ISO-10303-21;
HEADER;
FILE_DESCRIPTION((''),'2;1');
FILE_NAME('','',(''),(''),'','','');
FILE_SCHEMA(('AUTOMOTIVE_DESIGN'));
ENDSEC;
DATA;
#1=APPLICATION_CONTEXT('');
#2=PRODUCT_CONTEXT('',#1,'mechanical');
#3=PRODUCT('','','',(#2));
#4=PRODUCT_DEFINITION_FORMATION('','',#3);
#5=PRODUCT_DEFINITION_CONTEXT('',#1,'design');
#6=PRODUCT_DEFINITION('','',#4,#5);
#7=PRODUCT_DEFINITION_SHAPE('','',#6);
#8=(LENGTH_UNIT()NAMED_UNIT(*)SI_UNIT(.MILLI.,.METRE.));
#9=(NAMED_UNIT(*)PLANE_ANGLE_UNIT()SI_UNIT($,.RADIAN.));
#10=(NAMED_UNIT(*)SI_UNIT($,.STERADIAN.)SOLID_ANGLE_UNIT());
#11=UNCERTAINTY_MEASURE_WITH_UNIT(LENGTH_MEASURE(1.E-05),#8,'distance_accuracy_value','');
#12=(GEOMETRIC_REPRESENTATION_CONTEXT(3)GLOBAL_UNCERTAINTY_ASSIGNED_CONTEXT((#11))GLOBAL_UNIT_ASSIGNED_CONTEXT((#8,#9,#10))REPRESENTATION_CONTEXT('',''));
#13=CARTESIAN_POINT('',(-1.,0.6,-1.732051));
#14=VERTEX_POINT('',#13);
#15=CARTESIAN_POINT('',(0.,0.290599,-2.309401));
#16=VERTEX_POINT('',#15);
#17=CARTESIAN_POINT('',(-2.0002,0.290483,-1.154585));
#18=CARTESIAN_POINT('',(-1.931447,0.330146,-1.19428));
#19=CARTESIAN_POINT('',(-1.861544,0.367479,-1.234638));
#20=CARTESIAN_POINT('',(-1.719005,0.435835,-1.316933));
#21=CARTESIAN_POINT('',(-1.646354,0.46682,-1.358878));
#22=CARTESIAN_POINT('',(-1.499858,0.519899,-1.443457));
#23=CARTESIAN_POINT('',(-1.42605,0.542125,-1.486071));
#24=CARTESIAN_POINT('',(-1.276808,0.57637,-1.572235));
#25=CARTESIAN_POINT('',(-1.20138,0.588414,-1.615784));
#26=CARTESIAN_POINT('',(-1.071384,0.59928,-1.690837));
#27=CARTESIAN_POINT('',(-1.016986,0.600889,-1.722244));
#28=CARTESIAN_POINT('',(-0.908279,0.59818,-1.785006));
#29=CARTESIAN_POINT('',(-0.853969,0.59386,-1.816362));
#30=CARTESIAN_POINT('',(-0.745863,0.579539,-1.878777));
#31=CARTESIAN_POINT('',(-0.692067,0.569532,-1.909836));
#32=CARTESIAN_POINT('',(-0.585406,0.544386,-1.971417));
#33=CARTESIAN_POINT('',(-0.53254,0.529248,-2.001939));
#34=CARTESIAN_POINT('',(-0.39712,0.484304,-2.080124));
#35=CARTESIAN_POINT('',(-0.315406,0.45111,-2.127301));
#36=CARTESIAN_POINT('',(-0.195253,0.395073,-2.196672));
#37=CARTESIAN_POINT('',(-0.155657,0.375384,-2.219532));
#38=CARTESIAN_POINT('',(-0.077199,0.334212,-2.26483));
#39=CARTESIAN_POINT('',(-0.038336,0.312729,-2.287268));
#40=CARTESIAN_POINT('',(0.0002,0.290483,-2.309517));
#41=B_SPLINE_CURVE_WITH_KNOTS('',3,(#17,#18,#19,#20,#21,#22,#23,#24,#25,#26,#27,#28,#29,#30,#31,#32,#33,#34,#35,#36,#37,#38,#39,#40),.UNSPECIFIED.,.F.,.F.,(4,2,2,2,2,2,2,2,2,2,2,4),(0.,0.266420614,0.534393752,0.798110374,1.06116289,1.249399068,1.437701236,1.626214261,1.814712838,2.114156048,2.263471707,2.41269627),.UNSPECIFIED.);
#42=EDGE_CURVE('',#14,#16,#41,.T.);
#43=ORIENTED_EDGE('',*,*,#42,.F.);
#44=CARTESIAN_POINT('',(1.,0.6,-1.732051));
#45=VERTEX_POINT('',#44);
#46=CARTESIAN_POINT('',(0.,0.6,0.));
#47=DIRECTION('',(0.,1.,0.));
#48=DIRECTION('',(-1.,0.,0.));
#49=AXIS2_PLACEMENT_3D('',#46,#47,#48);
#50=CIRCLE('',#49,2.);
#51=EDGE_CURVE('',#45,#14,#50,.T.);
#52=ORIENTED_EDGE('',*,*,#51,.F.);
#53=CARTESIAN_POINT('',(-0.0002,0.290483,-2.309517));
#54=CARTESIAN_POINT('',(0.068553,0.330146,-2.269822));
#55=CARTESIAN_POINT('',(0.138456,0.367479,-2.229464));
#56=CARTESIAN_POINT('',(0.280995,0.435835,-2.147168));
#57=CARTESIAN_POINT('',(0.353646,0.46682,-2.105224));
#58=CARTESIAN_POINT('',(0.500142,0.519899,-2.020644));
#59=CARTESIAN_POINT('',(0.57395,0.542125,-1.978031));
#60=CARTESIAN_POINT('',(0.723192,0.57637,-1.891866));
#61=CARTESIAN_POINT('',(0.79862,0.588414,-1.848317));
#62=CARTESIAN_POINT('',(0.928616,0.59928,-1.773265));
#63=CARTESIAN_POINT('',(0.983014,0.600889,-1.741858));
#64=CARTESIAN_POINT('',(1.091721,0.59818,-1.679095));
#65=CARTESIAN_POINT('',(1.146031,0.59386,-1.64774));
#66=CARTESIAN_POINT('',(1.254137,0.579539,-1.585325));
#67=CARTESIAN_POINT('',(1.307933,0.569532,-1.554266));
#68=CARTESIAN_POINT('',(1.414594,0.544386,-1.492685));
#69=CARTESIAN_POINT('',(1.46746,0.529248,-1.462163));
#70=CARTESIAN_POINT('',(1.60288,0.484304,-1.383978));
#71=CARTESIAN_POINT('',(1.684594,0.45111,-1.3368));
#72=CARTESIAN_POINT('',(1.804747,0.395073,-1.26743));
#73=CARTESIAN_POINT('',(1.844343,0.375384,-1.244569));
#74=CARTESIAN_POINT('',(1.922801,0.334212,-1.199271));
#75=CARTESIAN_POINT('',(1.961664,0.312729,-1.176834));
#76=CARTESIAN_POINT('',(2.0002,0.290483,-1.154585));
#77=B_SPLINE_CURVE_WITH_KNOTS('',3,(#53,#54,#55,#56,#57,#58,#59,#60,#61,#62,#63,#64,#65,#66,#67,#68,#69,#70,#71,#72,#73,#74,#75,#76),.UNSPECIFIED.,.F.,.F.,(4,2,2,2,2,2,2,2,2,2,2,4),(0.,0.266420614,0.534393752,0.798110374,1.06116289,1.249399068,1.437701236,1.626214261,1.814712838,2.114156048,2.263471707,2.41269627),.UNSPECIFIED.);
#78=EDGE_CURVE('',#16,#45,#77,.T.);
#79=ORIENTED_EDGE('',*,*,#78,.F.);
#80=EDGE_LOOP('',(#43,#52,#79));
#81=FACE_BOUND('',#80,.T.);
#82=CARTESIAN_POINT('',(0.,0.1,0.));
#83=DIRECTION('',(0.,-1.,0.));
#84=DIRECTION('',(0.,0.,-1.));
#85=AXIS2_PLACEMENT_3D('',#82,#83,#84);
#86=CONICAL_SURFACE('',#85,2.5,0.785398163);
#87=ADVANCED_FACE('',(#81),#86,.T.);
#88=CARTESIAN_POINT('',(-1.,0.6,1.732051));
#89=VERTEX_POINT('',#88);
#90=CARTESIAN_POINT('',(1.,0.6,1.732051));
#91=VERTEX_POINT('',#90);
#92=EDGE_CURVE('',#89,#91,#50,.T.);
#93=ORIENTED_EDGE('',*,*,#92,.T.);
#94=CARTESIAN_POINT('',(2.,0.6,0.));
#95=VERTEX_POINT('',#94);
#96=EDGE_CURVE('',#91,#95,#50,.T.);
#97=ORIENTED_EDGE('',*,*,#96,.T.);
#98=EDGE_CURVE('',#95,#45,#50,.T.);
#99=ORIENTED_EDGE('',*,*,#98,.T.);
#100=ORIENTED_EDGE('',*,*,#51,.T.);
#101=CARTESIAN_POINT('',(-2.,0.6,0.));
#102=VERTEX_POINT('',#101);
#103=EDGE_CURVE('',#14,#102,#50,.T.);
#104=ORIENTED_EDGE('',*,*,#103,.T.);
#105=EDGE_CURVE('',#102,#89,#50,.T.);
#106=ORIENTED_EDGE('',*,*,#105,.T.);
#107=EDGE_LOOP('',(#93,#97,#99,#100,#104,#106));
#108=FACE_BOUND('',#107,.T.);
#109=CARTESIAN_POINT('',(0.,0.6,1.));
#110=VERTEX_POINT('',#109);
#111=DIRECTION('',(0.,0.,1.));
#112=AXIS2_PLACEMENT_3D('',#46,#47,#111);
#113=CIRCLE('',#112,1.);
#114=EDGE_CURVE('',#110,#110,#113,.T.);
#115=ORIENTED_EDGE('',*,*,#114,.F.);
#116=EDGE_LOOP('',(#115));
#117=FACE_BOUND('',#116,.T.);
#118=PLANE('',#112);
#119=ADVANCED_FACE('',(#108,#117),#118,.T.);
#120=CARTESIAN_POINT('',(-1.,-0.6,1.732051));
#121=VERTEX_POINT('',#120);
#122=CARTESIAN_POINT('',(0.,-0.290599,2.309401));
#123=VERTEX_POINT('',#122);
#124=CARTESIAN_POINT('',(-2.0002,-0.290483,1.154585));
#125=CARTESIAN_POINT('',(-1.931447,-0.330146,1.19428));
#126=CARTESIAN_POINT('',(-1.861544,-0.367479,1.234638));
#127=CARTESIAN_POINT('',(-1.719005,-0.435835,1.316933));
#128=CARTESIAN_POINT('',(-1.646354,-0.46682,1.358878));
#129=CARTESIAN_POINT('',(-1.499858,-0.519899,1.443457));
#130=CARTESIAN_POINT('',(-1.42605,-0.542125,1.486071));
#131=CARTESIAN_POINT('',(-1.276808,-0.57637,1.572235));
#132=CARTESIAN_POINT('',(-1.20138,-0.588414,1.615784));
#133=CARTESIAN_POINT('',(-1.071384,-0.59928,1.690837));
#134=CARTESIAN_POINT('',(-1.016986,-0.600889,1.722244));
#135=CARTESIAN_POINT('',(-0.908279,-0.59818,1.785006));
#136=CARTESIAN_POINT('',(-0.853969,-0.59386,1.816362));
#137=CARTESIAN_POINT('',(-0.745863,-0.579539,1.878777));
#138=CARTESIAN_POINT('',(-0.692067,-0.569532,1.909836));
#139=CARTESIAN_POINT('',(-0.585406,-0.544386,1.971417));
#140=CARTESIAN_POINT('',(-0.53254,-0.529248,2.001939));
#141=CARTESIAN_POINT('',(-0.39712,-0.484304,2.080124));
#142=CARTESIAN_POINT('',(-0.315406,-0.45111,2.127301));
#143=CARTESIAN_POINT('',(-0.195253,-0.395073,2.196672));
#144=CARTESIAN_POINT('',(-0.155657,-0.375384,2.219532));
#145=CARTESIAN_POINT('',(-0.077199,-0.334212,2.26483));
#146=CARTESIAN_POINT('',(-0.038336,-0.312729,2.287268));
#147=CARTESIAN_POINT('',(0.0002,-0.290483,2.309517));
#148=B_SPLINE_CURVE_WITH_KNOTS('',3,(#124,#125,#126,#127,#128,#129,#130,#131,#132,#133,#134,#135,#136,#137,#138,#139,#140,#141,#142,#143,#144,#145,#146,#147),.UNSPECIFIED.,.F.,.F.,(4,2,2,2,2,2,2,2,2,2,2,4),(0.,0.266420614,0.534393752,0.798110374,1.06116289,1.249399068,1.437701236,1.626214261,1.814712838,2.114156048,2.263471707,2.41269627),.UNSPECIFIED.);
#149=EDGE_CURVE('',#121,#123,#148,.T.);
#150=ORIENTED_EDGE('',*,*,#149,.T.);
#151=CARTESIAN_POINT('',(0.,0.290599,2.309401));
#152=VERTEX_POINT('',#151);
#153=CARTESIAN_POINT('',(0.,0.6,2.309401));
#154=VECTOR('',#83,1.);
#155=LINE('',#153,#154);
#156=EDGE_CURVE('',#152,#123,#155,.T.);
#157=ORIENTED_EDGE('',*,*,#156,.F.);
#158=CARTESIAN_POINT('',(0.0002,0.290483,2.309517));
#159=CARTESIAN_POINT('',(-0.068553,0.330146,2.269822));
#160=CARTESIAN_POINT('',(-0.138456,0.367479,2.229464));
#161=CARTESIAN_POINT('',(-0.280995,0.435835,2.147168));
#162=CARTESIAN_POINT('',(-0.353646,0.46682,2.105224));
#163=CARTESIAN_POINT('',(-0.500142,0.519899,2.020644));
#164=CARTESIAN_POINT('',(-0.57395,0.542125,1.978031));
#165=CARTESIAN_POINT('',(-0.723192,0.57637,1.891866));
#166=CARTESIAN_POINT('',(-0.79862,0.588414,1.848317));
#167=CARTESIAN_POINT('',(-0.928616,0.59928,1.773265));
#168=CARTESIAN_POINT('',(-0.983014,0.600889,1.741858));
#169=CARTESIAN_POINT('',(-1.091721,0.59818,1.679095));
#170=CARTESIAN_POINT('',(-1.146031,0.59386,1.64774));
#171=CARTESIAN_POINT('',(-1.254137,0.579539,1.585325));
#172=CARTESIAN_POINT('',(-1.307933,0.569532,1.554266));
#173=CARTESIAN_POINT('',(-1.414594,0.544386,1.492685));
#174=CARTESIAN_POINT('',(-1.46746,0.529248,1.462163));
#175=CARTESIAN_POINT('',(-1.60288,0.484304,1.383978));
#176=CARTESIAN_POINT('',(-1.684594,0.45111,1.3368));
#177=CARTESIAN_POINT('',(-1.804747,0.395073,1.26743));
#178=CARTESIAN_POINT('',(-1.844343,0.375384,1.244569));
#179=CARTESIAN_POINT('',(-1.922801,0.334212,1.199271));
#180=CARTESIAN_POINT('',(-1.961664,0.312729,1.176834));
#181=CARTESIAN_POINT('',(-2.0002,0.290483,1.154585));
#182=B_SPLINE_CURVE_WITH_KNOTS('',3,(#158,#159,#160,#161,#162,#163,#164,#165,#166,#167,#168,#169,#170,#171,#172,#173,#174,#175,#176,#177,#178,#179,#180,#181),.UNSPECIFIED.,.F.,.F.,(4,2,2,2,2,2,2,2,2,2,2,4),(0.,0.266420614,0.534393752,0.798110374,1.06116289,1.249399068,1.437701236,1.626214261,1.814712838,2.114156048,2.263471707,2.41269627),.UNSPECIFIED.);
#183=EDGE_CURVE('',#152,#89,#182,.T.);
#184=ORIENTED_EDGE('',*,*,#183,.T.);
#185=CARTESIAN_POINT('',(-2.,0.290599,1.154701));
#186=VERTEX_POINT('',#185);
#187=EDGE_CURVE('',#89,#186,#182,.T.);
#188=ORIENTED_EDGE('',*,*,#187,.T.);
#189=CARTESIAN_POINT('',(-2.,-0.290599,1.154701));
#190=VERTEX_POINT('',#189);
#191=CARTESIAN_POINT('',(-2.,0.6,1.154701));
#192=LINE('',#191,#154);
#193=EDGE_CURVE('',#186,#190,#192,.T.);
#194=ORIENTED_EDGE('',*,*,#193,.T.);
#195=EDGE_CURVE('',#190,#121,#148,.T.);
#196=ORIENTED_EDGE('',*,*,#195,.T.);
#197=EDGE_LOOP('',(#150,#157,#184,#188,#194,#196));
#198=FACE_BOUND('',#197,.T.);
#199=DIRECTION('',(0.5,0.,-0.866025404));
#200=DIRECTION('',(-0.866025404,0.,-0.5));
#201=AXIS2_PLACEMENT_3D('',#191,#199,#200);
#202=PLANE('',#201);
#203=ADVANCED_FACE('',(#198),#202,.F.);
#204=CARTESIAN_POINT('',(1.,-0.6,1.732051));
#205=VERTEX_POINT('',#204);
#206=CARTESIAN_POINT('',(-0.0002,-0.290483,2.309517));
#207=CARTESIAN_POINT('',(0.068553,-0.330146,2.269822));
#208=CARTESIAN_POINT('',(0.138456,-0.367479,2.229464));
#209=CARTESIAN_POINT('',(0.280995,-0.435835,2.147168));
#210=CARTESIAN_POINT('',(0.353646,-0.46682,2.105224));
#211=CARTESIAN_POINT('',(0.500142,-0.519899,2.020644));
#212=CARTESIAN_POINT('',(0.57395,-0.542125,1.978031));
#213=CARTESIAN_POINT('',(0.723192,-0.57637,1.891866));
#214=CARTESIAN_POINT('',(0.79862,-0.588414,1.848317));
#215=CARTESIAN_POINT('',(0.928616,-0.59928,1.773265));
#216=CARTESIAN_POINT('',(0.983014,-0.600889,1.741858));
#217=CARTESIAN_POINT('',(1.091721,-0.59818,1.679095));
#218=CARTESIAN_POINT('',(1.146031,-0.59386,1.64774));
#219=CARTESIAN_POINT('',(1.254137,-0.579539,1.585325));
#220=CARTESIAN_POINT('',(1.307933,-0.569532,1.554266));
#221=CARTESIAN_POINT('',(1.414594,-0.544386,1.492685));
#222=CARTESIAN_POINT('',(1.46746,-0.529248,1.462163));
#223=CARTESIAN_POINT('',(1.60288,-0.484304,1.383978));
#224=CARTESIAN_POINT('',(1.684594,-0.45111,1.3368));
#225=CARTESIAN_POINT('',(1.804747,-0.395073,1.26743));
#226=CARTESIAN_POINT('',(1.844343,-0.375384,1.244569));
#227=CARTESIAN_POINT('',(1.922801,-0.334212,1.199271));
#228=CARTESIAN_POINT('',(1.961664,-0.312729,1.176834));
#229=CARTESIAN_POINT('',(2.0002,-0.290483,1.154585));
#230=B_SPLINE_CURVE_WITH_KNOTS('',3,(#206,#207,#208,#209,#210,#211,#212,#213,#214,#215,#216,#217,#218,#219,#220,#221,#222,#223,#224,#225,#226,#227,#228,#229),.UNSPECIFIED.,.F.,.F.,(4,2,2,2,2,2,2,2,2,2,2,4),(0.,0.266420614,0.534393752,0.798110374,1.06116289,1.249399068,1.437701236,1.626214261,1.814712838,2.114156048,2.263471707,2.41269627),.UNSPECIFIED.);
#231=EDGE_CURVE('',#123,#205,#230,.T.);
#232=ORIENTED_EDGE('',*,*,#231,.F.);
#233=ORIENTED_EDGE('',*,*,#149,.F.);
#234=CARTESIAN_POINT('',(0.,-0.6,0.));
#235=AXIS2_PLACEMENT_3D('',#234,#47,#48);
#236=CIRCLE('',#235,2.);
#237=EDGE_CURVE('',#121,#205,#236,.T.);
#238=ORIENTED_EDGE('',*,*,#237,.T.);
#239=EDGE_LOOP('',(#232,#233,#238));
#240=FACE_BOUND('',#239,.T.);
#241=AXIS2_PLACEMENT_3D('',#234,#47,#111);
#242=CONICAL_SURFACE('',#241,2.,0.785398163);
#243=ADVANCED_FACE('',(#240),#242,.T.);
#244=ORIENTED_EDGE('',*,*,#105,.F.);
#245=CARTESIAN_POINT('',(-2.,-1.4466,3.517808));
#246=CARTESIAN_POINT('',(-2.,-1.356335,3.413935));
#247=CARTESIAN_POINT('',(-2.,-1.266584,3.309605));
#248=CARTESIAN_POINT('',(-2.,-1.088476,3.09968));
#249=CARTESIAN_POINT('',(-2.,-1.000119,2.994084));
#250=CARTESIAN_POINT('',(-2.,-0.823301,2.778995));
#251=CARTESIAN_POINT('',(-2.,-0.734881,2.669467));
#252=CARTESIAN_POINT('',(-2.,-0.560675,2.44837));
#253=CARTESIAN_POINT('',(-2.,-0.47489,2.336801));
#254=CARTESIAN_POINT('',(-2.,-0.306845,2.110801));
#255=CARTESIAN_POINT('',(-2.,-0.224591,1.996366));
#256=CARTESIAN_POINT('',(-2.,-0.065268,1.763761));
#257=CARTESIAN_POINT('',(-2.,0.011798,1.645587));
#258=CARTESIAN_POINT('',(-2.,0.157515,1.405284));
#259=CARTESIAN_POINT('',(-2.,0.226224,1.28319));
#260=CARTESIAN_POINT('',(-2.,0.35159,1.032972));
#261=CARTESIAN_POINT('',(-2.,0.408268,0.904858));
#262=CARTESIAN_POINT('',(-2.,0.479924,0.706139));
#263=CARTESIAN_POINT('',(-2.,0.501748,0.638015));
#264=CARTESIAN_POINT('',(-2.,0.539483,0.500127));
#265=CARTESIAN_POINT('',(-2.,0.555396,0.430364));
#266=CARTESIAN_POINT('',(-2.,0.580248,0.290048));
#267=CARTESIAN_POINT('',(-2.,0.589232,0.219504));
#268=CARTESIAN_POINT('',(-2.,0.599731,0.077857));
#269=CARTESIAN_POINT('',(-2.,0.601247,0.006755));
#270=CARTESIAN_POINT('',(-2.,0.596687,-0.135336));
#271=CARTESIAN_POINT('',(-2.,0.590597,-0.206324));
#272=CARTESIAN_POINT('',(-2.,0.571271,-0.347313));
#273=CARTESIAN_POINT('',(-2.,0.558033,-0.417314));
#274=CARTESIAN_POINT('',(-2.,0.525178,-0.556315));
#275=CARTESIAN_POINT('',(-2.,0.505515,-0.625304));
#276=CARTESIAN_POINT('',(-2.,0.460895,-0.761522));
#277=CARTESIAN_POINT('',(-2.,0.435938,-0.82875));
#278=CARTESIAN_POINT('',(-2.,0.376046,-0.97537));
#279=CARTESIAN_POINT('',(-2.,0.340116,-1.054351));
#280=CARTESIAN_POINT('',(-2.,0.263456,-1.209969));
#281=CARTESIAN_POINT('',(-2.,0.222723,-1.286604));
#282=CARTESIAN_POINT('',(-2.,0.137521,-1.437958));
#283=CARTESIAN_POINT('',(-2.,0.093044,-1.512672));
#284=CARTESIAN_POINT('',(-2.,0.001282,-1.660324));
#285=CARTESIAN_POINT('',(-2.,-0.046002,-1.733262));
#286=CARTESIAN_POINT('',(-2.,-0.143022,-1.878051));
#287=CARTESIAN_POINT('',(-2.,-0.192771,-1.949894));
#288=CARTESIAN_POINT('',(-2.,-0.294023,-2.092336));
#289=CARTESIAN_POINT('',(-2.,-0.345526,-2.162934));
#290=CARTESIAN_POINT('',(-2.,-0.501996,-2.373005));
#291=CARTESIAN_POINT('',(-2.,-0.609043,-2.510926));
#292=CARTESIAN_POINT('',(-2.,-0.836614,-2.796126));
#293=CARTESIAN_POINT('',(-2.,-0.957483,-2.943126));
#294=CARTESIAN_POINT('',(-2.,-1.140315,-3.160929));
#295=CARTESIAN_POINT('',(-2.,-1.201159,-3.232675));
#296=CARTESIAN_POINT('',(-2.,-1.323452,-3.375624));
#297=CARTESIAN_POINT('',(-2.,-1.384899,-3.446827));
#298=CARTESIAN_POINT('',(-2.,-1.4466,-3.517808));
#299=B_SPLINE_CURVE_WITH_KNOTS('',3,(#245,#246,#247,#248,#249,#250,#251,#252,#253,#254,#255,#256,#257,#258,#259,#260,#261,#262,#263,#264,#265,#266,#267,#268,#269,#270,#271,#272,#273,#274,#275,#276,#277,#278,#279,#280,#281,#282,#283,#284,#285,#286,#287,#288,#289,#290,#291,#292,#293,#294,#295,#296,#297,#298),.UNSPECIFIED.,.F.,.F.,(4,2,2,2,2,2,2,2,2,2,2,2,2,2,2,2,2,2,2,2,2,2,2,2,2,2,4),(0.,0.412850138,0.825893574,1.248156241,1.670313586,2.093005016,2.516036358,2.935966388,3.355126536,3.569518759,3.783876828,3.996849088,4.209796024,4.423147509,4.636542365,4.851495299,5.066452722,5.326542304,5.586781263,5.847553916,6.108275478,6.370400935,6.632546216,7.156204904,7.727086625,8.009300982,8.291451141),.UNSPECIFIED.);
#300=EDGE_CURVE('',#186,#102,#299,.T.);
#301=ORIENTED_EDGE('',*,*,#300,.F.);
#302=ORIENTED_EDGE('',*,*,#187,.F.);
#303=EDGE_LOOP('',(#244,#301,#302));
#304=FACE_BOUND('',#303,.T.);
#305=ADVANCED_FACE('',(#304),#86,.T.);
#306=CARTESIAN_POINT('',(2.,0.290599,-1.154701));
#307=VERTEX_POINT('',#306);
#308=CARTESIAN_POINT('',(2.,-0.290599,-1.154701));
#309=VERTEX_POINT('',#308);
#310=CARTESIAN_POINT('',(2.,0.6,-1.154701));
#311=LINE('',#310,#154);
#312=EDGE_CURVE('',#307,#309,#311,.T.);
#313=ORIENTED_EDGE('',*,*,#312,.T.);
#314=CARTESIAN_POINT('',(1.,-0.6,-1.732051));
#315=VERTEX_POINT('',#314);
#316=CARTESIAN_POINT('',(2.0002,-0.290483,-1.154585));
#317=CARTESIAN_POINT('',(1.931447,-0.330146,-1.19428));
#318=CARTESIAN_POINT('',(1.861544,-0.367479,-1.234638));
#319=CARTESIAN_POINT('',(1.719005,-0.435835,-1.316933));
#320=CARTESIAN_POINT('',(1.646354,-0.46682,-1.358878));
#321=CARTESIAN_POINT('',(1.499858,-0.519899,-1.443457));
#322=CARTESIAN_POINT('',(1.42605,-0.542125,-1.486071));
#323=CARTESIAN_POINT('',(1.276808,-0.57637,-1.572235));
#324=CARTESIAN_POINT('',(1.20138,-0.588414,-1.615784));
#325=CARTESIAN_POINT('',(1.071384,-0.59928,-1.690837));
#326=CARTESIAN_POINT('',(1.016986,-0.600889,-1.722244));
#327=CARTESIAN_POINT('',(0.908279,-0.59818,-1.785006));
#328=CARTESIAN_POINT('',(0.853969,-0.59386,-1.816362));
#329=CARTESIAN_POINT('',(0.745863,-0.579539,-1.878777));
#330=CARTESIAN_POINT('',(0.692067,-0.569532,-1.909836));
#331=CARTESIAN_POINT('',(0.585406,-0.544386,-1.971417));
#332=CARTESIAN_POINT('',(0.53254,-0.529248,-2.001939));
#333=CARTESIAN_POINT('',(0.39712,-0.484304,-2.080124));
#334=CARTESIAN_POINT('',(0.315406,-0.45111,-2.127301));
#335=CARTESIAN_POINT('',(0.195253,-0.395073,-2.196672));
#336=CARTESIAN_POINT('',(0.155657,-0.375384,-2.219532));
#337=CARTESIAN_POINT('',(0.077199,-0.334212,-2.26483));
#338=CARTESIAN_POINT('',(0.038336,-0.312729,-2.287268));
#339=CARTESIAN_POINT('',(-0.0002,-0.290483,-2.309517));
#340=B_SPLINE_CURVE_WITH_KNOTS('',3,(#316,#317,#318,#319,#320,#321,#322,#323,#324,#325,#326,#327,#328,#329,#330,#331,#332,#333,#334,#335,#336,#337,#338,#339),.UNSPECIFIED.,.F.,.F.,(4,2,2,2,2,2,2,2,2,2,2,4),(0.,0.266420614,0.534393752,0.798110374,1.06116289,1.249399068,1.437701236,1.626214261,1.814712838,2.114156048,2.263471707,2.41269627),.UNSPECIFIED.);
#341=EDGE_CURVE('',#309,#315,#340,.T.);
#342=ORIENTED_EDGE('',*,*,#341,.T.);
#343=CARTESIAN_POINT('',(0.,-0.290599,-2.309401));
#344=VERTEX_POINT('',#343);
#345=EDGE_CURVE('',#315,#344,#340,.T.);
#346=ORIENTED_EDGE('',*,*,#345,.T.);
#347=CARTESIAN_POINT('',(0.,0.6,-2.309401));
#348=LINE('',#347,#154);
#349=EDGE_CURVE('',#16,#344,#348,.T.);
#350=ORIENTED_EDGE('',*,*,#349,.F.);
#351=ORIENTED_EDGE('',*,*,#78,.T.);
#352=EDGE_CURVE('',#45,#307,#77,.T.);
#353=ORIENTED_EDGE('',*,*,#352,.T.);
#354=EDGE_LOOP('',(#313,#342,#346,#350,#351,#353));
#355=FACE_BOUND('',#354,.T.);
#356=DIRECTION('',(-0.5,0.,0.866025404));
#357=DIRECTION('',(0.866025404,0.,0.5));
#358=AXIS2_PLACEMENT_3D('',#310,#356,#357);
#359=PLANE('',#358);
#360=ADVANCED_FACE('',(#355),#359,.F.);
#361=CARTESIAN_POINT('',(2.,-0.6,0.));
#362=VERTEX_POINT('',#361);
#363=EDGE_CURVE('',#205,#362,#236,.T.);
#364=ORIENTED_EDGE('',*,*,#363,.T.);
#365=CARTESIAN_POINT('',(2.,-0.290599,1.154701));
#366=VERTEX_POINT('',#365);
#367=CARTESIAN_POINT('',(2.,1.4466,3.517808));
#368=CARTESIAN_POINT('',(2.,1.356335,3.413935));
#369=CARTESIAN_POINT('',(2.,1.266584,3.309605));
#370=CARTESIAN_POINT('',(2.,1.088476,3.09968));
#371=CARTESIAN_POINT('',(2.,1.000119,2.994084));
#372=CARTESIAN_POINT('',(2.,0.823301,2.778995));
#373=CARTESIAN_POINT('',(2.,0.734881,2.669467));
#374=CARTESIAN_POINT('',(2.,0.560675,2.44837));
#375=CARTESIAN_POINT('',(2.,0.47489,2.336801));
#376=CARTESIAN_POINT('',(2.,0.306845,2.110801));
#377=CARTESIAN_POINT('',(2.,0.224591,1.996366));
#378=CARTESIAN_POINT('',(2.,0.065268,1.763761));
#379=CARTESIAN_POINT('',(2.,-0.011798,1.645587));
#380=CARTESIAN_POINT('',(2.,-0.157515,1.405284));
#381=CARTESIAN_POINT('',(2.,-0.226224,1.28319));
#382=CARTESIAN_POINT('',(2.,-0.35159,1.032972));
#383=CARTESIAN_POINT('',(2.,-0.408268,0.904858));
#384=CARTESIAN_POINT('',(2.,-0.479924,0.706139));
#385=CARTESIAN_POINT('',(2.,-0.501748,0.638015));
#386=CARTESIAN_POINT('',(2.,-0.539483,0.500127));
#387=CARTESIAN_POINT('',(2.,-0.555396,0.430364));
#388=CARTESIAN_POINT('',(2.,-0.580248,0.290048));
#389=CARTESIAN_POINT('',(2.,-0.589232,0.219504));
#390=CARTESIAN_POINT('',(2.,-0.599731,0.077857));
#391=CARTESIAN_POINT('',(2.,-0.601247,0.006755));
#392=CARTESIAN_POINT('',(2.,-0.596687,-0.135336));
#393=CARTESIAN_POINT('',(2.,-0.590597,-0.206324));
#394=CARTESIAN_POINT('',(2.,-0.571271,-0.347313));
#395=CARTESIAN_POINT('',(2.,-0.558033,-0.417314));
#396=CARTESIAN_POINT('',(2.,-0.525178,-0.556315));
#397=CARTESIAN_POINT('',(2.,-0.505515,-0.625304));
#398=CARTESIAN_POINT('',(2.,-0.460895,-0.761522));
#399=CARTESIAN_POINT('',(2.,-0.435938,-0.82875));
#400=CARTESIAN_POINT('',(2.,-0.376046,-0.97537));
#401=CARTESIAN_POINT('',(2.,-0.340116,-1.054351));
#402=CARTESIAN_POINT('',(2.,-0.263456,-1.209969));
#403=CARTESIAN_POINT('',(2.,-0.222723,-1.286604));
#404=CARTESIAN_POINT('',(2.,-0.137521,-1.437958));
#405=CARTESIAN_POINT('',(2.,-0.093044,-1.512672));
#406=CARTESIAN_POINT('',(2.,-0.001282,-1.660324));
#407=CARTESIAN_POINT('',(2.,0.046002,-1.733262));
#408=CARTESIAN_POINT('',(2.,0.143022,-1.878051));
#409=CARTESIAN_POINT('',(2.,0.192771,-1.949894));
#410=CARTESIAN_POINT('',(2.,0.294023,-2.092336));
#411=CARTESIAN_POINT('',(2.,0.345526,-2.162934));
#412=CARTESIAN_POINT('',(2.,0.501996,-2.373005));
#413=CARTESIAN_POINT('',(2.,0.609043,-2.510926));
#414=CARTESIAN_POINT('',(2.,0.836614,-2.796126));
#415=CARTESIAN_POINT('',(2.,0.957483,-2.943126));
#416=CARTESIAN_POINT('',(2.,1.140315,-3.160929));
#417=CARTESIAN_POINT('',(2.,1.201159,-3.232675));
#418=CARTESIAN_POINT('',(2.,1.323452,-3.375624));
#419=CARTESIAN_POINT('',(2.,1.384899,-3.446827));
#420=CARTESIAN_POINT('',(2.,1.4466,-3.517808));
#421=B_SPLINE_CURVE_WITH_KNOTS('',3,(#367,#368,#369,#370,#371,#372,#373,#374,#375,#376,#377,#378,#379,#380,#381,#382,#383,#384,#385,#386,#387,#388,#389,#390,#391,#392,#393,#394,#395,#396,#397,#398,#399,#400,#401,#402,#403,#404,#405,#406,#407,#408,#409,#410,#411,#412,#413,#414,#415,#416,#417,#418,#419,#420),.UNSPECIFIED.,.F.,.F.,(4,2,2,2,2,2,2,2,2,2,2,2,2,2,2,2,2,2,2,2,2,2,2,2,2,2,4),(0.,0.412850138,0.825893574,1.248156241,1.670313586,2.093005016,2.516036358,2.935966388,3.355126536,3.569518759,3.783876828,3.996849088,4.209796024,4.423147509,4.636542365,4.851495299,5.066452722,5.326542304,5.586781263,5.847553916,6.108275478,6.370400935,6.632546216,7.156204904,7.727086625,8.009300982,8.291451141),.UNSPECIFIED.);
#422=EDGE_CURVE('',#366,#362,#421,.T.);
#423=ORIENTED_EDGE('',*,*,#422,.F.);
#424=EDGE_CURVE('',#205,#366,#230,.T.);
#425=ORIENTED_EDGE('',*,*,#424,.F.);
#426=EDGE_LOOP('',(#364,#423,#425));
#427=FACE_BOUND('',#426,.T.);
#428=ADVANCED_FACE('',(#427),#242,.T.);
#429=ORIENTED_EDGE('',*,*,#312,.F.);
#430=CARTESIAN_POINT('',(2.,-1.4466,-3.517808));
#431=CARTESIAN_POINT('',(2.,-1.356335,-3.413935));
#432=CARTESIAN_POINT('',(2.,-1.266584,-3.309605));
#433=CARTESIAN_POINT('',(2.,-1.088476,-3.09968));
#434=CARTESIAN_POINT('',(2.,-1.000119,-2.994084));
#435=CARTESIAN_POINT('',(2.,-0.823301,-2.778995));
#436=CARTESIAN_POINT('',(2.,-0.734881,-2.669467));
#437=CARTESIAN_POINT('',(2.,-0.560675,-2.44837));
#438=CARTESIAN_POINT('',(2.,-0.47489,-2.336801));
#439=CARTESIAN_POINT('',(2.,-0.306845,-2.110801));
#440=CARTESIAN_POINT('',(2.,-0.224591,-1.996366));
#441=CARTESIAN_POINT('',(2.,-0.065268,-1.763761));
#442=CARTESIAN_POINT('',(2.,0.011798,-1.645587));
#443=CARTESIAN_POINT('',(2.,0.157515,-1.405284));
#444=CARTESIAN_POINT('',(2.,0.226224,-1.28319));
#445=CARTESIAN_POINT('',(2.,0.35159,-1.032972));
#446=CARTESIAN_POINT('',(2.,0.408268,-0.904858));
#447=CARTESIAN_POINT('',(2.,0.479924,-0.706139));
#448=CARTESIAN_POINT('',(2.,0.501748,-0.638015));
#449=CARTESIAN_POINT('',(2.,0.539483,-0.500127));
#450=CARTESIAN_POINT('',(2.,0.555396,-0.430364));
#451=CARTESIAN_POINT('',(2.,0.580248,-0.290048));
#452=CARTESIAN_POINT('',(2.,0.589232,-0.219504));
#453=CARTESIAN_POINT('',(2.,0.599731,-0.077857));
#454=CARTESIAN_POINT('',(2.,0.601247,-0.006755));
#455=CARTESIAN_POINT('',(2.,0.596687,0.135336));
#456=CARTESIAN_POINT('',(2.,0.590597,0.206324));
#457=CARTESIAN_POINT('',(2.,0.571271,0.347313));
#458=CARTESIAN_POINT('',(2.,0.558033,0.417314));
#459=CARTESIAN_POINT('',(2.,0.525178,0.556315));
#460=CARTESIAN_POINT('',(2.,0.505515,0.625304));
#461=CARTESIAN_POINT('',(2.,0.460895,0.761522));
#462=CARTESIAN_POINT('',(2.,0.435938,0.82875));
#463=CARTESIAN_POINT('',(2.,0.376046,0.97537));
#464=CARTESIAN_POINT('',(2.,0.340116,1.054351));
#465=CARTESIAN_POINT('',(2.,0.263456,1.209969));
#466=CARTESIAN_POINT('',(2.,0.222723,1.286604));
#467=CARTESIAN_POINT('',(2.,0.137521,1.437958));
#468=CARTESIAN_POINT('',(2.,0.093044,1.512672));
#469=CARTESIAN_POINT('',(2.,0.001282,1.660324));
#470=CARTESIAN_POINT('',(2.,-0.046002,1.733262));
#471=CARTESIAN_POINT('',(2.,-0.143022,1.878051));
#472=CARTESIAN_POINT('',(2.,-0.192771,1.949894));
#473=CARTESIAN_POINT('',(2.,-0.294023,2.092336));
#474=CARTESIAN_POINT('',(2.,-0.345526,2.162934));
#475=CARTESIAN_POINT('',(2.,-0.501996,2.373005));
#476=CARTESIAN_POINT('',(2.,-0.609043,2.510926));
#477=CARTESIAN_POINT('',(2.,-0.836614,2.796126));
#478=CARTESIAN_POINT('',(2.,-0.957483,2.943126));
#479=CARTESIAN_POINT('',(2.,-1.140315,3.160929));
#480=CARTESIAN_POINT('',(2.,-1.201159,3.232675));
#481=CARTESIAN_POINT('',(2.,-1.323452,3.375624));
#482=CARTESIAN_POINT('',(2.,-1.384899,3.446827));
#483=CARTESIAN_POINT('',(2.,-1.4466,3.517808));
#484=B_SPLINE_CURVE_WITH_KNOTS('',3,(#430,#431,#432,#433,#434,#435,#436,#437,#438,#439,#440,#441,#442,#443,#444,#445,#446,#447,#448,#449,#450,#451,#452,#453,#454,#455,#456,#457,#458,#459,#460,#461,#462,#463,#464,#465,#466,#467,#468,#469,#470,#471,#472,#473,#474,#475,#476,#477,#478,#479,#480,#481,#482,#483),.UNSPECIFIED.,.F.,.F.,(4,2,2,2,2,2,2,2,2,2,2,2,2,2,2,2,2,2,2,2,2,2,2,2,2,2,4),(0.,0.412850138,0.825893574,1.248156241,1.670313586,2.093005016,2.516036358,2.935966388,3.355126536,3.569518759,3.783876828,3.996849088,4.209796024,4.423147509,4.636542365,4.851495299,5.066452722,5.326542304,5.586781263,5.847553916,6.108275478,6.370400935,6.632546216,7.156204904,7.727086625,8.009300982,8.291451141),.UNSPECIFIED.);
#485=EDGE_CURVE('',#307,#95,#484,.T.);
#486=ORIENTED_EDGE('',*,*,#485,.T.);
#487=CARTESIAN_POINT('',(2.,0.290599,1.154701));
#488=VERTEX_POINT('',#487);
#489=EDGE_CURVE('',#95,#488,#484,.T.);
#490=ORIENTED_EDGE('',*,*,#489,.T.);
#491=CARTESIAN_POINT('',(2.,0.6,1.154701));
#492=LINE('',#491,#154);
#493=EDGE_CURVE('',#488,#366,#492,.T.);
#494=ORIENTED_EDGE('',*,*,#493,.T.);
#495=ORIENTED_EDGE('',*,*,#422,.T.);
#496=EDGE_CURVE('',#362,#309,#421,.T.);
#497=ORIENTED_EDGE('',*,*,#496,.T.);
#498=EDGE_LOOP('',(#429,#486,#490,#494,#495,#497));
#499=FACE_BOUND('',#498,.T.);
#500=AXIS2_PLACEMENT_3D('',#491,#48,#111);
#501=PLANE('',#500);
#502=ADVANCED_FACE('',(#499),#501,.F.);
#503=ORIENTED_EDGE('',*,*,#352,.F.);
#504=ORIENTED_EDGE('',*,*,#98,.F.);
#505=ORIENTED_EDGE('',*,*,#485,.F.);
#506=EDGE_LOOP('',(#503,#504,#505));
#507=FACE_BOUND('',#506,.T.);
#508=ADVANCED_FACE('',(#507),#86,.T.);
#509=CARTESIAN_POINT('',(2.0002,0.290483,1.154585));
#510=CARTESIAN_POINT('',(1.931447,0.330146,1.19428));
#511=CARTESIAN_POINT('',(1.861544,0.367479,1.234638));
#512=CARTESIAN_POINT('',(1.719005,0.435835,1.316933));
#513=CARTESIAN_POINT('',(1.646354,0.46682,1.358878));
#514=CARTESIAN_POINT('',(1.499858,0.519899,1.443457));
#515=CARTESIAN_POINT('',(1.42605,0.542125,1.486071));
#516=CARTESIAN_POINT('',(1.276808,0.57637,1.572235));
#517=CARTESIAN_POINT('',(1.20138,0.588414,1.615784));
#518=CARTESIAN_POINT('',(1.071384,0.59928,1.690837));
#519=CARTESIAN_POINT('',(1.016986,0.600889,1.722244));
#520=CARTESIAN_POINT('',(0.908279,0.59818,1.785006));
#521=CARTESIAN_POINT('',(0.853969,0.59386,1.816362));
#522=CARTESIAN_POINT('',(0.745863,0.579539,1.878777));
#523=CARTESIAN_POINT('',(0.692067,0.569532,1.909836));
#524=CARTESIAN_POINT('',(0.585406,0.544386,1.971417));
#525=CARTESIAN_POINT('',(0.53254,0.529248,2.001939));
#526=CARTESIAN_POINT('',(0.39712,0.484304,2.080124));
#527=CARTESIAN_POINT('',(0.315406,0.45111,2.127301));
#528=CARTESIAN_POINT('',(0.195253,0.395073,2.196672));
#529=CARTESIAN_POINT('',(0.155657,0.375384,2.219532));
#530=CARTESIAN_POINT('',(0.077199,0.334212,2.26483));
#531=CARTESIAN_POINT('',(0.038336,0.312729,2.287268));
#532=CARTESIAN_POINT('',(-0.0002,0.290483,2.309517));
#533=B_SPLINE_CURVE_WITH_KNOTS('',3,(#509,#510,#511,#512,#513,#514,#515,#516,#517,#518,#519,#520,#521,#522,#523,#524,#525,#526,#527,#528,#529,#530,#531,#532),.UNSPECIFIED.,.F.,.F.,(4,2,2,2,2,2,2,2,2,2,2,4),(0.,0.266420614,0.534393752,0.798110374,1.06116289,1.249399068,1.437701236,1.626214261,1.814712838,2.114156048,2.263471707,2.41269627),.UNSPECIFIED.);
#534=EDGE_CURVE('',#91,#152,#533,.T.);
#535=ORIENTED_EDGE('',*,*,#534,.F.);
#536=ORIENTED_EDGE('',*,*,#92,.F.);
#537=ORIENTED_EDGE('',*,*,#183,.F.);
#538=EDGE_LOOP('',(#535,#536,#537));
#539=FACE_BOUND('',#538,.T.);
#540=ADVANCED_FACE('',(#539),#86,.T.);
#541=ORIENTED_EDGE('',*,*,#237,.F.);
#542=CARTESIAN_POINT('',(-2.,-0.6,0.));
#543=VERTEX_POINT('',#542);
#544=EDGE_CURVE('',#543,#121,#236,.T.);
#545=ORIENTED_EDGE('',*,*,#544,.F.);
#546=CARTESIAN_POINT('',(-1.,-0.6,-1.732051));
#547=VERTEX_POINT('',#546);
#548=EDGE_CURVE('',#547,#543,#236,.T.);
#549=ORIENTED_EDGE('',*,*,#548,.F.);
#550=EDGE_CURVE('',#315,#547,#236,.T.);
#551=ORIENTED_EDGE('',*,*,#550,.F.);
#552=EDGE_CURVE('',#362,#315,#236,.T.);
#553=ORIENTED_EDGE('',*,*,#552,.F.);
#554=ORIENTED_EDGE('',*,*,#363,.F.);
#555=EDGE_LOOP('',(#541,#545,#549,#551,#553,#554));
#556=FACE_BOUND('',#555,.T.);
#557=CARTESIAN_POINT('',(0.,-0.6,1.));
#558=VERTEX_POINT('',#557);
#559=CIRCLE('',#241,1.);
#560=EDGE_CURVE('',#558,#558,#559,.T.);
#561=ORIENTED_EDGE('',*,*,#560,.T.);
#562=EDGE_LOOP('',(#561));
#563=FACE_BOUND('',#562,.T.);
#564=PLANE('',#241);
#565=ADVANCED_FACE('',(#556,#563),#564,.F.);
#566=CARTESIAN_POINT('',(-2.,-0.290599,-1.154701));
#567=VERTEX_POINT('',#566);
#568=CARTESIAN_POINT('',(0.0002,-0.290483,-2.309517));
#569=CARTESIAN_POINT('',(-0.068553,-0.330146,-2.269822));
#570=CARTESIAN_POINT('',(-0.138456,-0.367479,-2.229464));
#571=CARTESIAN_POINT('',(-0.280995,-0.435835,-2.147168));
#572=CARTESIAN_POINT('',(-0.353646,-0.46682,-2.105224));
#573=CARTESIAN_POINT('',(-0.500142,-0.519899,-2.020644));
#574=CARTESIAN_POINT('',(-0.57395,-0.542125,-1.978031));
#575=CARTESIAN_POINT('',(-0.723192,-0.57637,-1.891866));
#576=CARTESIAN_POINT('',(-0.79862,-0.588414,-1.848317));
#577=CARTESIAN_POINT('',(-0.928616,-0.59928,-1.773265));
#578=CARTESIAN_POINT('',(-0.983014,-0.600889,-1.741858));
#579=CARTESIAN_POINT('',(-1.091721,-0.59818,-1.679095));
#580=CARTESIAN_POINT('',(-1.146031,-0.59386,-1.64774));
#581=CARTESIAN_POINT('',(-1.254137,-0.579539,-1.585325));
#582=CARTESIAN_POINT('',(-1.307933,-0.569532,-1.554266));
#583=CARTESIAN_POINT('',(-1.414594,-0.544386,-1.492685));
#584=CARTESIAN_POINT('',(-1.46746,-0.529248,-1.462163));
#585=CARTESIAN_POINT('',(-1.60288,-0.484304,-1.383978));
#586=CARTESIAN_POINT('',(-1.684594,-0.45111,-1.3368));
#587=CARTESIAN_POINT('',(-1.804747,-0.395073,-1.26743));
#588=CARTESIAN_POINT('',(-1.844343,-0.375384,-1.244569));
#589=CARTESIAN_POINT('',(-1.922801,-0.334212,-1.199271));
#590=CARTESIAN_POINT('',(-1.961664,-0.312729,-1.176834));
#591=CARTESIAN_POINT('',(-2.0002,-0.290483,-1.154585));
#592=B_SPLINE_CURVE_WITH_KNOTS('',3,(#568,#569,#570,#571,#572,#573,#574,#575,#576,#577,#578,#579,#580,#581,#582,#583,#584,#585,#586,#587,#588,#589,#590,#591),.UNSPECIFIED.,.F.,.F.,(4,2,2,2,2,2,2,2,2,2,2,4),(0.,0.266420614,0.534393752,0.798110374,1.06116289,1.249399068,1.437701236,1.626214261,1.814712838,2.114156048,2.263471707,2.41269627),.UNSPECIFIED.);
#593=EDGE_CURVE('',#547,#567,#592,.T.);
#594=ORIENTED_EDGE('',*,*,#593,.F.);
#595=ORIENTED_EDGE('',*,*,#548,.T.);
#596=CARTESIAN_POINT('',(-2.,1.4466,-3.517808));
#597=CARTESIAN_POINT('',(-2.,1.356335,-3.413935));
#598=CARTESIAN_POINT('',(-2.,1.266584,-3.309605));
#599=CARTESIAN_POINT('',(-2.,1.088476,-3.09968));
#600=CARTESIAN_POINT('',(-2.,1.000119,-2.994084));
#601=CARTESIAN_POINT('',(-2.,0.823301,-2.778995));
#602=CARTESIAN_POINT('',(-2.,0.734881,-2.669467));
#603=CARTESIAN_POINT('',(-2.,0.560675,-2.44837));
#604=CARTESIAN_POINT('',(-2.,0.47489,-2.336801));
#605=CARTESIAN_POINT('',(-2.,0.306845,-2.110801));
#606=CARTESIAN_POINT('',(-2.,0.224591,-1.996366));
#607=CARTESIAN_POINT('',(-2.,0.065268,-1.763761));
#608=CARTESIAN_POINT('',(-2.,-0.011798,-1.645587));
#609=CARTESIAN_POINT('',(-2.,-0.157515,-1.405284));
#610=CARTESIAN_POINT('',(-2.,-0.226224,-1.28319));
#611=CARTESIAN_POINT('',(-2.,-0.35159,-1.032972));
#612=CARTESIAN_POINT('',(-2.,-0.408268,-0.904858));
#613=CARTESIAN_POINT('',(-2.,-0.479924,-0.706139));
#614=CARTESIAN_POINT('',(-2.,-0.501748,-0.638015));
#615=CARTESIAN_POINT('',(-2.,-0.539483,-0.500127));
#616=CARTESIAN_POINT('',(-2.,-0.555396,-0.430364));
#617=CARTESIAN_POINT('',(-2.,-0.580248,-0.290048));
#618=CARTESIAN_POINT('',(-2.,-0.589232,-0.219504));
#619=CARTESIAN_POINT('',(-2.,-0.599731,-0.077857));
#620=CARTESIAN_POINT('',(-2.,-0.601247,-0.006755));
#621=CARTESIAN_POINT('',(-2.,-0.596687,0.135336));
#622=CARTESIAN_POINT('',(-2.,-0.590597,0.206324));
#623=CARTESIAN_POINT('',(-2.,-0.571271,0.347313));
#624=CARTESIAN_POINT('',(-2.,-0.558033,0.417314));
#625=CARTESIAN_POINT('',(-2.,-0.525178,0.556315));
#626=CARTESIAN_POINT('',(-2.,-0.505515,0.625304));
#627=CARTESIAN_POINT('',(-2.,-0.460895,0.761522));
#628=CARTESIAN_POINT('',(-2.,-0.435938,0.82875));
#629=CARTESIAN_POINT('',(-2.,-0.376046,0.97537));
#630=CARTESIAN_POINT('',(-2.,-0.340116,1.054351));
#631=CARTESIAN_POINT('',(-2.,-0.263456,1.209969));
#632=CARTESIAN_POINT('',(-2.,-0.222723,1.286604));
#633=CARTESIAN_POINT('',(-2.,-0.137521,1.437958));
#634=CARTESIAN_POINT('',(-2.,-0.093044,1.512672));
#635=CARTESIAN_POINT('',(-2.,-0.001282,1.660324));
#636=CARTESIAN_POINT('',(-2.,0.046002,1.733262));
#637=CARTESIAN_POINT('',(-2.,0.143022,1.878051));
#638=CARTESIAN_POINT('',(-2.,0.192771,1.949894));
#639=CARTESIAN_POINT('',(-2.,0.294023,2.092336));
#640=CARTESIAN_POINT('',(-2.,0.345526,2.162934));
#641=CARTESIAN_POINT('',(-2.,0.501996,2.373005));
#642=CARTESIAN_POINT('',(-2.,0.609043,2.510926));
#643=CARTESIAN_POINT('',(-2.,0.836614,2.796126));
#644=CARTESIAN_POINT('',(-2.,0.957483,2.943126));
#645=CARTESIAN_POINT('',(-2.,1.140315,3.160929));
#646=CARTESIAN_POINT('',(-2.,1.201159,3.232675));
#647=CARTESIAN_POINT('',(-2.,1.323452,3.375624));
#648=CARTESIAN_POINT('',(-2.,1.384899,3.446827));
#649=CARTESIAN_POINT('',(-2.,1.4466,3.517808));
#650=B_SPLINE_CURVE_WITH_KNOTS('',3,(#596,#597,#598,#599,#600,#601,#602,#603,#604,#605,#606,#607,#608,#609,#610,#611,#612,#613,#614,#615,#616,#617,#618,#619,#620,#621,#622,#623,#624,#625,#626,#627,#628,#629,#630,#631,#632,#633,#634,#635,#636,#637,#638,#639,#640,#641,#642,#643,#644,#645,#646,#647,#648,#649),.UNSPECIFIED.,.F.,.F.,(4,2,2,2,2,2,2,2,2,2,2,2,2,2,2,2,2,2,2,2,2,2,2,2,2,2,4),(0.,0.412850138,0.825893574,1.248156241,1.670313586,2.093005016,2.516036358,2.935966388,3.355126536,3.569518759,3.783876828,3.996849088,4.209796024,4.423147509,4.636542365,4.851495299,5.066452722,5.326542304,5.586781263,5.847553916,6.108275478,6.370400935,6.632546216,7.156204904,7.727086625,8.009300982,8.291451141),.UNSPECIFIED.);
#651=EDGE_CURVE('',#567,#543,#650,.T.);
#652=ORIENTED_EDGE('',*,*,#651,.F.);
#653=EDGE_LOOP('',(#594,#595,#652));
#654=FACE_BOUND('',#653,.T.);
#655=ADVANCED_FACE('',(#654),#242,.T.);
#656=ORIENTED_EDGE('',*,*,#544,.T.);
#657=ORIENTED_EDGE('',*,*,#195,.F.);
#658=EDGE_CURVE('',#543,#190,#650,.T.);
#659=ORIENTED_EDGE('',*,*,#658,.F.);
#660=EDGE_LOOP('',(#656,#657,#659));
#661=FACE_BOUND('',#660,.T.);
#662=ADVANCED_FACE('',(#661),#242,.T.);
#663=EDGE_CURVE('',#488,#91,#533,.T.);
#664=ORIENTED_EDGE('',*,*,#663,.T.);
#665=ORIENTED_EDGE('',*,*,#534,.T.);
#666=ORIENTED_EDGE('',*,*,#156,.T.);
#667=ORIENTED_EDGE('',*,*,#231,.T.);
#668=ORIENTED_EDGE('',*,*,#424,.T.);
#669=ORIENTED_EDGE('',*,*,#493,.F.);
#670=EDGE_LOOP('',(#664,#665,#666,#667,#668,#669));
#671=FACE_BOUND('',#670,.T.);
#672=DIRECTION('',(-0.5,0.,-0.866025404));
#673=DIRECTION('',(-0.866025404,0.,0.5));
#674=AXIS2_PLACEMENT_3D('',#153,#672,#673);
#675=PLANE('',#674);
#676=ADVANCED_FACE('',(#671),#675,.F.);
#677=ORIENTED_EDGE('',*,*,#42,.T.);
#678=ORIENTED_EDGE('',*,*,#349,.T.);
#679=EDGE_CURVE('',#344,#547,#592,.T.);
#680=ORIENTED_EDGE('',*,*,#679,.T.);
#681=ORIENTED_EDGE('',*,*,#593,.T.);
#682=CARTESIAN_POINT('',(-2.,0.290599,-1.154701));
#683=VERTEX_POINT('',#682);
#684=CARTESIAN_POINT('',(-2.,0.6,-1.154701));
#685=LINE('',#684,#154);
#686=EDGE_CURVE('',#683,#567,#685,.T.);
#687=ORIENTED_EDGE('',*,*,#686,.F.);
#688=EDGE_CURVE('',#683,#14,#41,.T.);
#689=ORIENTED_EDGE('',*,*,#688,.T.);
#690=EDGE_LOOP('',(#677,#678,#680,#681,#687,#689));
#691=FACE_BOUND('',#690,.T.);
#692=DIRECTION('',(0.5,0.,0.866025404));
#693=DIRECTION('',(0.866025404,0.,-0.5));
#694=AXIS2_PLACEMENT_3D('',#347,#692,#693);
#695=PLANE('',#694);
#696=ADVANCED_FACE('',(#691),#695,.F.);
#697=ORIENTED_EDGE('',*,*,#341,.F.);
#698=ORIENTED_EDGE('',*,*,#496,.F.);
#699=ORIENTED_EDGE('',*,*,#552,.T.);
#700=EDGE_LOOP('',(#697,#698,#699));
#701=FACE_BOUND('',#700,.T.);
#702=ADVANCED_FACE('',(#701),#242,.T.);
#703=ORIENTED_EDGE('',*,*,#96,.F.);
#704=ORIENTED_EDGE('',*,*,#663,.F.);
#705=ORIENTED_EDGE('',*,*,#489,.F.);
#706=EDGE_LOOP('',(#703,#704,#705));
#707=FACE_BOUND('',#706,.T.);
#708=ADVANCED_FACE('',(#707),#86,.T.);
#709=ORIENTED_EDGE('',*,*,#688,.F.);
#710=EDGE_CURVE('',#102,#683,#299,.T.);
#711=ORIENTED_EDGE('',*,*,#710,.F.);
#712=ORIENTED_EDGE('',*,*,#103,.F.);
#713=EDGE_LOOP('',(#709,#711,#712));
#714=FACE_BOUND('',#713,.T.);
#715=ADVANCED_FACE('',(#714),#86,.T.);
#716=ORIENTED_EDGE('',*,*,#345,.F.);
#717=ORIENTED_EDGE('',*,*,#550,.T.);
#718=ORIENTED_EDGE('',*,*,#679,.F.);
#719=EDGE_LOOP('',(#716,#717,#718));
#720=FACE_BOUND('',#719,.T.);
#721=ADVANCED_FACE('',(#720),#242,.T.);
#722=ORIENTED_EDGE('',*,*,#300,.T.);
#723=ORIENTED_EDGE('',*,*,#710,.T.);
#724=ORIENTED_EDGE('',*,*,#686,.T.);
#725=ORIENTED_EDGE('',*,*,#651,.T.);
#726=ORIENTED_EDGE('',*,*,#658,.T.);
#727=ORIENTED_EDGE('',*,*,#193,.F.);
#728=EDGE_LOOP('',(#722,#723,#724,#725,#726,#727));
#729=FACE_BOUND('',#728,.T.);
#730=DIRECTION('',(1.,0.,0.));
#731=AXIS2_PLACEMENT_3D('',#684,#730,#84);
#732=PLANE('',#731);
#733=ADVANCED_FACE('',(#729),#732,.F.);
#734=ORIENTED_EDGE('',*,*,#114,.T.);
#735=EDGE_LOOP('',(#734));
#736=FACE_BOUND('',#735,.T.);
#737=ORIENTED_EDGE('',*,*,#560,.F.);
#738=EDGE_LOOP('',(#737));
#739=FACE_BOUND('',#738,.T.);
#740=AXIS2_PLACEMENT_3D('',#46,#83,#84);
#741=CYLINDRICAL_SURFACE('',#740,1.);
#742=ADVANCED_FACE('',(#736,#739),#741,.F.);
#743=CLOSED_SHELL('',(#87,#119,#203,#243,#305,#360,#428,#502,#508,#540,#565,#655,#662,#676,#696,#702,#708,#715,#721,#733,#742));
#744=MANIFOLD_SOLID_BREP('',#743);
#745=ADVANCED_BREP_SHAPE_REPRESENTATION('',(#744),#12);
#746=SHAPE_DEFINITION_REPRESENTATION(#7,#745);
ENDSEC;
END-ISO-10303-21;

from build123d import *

# Parameters (mm, degrees)
SKETCH1_R           = 1
BOSS_EXTRUDE1_DEPTH = 0.6


with BuildPart() as part:
    # Sketch1 → Boss-Extrude1 (new, symmetric)
    with BuildSketch(Plane(origin=(0, 0, 0), x_dir=(1, 0, 0), z_dir=(0, 1, 0))):
        Polygon((0, 2.309401077), (-2, 1.154700538), (-2, -1.154700538), (0, -2.309401077), (2, -1.154700538), (2, 1.154700538), align=None)
        with Locations(Location((0, 0, 0), (0, 0, 270))):
            Circle(SKETCH1_R, mode=Mode.SUBTRACT)
    extrude(amount=BOSS_EXTRUDE1_DEPTH, both=True)

    # Cut-Sweep1: sweep along a path in Sketch2
    with BuildLine(Plane(origin=(0, 0.6, 0), x_dir=(1, 0, 0), z_dir=(0, 1, 0))) as cut_sweep1_path:
        CenterArc((0, 0), 2, 0, 360)
    # Sketch3 → Cut-Sweep1 (sweep, cut)
    with BuildSketch(Plane.XY):
        Polygon((-2.5, 0.1), (-2, 0.6), (-2.5, 0.6), align=None)
    cut_sweep1 = sweep(path=cut_sweep1_path.line, mode=Mode.SUBTRACT)

    # Mirror1: Cut-Sweep1 across plane
    add(cut_sweep1.mirror(Plane.ZX), mode=Mode.SUBTRACT)


solid = part.part
